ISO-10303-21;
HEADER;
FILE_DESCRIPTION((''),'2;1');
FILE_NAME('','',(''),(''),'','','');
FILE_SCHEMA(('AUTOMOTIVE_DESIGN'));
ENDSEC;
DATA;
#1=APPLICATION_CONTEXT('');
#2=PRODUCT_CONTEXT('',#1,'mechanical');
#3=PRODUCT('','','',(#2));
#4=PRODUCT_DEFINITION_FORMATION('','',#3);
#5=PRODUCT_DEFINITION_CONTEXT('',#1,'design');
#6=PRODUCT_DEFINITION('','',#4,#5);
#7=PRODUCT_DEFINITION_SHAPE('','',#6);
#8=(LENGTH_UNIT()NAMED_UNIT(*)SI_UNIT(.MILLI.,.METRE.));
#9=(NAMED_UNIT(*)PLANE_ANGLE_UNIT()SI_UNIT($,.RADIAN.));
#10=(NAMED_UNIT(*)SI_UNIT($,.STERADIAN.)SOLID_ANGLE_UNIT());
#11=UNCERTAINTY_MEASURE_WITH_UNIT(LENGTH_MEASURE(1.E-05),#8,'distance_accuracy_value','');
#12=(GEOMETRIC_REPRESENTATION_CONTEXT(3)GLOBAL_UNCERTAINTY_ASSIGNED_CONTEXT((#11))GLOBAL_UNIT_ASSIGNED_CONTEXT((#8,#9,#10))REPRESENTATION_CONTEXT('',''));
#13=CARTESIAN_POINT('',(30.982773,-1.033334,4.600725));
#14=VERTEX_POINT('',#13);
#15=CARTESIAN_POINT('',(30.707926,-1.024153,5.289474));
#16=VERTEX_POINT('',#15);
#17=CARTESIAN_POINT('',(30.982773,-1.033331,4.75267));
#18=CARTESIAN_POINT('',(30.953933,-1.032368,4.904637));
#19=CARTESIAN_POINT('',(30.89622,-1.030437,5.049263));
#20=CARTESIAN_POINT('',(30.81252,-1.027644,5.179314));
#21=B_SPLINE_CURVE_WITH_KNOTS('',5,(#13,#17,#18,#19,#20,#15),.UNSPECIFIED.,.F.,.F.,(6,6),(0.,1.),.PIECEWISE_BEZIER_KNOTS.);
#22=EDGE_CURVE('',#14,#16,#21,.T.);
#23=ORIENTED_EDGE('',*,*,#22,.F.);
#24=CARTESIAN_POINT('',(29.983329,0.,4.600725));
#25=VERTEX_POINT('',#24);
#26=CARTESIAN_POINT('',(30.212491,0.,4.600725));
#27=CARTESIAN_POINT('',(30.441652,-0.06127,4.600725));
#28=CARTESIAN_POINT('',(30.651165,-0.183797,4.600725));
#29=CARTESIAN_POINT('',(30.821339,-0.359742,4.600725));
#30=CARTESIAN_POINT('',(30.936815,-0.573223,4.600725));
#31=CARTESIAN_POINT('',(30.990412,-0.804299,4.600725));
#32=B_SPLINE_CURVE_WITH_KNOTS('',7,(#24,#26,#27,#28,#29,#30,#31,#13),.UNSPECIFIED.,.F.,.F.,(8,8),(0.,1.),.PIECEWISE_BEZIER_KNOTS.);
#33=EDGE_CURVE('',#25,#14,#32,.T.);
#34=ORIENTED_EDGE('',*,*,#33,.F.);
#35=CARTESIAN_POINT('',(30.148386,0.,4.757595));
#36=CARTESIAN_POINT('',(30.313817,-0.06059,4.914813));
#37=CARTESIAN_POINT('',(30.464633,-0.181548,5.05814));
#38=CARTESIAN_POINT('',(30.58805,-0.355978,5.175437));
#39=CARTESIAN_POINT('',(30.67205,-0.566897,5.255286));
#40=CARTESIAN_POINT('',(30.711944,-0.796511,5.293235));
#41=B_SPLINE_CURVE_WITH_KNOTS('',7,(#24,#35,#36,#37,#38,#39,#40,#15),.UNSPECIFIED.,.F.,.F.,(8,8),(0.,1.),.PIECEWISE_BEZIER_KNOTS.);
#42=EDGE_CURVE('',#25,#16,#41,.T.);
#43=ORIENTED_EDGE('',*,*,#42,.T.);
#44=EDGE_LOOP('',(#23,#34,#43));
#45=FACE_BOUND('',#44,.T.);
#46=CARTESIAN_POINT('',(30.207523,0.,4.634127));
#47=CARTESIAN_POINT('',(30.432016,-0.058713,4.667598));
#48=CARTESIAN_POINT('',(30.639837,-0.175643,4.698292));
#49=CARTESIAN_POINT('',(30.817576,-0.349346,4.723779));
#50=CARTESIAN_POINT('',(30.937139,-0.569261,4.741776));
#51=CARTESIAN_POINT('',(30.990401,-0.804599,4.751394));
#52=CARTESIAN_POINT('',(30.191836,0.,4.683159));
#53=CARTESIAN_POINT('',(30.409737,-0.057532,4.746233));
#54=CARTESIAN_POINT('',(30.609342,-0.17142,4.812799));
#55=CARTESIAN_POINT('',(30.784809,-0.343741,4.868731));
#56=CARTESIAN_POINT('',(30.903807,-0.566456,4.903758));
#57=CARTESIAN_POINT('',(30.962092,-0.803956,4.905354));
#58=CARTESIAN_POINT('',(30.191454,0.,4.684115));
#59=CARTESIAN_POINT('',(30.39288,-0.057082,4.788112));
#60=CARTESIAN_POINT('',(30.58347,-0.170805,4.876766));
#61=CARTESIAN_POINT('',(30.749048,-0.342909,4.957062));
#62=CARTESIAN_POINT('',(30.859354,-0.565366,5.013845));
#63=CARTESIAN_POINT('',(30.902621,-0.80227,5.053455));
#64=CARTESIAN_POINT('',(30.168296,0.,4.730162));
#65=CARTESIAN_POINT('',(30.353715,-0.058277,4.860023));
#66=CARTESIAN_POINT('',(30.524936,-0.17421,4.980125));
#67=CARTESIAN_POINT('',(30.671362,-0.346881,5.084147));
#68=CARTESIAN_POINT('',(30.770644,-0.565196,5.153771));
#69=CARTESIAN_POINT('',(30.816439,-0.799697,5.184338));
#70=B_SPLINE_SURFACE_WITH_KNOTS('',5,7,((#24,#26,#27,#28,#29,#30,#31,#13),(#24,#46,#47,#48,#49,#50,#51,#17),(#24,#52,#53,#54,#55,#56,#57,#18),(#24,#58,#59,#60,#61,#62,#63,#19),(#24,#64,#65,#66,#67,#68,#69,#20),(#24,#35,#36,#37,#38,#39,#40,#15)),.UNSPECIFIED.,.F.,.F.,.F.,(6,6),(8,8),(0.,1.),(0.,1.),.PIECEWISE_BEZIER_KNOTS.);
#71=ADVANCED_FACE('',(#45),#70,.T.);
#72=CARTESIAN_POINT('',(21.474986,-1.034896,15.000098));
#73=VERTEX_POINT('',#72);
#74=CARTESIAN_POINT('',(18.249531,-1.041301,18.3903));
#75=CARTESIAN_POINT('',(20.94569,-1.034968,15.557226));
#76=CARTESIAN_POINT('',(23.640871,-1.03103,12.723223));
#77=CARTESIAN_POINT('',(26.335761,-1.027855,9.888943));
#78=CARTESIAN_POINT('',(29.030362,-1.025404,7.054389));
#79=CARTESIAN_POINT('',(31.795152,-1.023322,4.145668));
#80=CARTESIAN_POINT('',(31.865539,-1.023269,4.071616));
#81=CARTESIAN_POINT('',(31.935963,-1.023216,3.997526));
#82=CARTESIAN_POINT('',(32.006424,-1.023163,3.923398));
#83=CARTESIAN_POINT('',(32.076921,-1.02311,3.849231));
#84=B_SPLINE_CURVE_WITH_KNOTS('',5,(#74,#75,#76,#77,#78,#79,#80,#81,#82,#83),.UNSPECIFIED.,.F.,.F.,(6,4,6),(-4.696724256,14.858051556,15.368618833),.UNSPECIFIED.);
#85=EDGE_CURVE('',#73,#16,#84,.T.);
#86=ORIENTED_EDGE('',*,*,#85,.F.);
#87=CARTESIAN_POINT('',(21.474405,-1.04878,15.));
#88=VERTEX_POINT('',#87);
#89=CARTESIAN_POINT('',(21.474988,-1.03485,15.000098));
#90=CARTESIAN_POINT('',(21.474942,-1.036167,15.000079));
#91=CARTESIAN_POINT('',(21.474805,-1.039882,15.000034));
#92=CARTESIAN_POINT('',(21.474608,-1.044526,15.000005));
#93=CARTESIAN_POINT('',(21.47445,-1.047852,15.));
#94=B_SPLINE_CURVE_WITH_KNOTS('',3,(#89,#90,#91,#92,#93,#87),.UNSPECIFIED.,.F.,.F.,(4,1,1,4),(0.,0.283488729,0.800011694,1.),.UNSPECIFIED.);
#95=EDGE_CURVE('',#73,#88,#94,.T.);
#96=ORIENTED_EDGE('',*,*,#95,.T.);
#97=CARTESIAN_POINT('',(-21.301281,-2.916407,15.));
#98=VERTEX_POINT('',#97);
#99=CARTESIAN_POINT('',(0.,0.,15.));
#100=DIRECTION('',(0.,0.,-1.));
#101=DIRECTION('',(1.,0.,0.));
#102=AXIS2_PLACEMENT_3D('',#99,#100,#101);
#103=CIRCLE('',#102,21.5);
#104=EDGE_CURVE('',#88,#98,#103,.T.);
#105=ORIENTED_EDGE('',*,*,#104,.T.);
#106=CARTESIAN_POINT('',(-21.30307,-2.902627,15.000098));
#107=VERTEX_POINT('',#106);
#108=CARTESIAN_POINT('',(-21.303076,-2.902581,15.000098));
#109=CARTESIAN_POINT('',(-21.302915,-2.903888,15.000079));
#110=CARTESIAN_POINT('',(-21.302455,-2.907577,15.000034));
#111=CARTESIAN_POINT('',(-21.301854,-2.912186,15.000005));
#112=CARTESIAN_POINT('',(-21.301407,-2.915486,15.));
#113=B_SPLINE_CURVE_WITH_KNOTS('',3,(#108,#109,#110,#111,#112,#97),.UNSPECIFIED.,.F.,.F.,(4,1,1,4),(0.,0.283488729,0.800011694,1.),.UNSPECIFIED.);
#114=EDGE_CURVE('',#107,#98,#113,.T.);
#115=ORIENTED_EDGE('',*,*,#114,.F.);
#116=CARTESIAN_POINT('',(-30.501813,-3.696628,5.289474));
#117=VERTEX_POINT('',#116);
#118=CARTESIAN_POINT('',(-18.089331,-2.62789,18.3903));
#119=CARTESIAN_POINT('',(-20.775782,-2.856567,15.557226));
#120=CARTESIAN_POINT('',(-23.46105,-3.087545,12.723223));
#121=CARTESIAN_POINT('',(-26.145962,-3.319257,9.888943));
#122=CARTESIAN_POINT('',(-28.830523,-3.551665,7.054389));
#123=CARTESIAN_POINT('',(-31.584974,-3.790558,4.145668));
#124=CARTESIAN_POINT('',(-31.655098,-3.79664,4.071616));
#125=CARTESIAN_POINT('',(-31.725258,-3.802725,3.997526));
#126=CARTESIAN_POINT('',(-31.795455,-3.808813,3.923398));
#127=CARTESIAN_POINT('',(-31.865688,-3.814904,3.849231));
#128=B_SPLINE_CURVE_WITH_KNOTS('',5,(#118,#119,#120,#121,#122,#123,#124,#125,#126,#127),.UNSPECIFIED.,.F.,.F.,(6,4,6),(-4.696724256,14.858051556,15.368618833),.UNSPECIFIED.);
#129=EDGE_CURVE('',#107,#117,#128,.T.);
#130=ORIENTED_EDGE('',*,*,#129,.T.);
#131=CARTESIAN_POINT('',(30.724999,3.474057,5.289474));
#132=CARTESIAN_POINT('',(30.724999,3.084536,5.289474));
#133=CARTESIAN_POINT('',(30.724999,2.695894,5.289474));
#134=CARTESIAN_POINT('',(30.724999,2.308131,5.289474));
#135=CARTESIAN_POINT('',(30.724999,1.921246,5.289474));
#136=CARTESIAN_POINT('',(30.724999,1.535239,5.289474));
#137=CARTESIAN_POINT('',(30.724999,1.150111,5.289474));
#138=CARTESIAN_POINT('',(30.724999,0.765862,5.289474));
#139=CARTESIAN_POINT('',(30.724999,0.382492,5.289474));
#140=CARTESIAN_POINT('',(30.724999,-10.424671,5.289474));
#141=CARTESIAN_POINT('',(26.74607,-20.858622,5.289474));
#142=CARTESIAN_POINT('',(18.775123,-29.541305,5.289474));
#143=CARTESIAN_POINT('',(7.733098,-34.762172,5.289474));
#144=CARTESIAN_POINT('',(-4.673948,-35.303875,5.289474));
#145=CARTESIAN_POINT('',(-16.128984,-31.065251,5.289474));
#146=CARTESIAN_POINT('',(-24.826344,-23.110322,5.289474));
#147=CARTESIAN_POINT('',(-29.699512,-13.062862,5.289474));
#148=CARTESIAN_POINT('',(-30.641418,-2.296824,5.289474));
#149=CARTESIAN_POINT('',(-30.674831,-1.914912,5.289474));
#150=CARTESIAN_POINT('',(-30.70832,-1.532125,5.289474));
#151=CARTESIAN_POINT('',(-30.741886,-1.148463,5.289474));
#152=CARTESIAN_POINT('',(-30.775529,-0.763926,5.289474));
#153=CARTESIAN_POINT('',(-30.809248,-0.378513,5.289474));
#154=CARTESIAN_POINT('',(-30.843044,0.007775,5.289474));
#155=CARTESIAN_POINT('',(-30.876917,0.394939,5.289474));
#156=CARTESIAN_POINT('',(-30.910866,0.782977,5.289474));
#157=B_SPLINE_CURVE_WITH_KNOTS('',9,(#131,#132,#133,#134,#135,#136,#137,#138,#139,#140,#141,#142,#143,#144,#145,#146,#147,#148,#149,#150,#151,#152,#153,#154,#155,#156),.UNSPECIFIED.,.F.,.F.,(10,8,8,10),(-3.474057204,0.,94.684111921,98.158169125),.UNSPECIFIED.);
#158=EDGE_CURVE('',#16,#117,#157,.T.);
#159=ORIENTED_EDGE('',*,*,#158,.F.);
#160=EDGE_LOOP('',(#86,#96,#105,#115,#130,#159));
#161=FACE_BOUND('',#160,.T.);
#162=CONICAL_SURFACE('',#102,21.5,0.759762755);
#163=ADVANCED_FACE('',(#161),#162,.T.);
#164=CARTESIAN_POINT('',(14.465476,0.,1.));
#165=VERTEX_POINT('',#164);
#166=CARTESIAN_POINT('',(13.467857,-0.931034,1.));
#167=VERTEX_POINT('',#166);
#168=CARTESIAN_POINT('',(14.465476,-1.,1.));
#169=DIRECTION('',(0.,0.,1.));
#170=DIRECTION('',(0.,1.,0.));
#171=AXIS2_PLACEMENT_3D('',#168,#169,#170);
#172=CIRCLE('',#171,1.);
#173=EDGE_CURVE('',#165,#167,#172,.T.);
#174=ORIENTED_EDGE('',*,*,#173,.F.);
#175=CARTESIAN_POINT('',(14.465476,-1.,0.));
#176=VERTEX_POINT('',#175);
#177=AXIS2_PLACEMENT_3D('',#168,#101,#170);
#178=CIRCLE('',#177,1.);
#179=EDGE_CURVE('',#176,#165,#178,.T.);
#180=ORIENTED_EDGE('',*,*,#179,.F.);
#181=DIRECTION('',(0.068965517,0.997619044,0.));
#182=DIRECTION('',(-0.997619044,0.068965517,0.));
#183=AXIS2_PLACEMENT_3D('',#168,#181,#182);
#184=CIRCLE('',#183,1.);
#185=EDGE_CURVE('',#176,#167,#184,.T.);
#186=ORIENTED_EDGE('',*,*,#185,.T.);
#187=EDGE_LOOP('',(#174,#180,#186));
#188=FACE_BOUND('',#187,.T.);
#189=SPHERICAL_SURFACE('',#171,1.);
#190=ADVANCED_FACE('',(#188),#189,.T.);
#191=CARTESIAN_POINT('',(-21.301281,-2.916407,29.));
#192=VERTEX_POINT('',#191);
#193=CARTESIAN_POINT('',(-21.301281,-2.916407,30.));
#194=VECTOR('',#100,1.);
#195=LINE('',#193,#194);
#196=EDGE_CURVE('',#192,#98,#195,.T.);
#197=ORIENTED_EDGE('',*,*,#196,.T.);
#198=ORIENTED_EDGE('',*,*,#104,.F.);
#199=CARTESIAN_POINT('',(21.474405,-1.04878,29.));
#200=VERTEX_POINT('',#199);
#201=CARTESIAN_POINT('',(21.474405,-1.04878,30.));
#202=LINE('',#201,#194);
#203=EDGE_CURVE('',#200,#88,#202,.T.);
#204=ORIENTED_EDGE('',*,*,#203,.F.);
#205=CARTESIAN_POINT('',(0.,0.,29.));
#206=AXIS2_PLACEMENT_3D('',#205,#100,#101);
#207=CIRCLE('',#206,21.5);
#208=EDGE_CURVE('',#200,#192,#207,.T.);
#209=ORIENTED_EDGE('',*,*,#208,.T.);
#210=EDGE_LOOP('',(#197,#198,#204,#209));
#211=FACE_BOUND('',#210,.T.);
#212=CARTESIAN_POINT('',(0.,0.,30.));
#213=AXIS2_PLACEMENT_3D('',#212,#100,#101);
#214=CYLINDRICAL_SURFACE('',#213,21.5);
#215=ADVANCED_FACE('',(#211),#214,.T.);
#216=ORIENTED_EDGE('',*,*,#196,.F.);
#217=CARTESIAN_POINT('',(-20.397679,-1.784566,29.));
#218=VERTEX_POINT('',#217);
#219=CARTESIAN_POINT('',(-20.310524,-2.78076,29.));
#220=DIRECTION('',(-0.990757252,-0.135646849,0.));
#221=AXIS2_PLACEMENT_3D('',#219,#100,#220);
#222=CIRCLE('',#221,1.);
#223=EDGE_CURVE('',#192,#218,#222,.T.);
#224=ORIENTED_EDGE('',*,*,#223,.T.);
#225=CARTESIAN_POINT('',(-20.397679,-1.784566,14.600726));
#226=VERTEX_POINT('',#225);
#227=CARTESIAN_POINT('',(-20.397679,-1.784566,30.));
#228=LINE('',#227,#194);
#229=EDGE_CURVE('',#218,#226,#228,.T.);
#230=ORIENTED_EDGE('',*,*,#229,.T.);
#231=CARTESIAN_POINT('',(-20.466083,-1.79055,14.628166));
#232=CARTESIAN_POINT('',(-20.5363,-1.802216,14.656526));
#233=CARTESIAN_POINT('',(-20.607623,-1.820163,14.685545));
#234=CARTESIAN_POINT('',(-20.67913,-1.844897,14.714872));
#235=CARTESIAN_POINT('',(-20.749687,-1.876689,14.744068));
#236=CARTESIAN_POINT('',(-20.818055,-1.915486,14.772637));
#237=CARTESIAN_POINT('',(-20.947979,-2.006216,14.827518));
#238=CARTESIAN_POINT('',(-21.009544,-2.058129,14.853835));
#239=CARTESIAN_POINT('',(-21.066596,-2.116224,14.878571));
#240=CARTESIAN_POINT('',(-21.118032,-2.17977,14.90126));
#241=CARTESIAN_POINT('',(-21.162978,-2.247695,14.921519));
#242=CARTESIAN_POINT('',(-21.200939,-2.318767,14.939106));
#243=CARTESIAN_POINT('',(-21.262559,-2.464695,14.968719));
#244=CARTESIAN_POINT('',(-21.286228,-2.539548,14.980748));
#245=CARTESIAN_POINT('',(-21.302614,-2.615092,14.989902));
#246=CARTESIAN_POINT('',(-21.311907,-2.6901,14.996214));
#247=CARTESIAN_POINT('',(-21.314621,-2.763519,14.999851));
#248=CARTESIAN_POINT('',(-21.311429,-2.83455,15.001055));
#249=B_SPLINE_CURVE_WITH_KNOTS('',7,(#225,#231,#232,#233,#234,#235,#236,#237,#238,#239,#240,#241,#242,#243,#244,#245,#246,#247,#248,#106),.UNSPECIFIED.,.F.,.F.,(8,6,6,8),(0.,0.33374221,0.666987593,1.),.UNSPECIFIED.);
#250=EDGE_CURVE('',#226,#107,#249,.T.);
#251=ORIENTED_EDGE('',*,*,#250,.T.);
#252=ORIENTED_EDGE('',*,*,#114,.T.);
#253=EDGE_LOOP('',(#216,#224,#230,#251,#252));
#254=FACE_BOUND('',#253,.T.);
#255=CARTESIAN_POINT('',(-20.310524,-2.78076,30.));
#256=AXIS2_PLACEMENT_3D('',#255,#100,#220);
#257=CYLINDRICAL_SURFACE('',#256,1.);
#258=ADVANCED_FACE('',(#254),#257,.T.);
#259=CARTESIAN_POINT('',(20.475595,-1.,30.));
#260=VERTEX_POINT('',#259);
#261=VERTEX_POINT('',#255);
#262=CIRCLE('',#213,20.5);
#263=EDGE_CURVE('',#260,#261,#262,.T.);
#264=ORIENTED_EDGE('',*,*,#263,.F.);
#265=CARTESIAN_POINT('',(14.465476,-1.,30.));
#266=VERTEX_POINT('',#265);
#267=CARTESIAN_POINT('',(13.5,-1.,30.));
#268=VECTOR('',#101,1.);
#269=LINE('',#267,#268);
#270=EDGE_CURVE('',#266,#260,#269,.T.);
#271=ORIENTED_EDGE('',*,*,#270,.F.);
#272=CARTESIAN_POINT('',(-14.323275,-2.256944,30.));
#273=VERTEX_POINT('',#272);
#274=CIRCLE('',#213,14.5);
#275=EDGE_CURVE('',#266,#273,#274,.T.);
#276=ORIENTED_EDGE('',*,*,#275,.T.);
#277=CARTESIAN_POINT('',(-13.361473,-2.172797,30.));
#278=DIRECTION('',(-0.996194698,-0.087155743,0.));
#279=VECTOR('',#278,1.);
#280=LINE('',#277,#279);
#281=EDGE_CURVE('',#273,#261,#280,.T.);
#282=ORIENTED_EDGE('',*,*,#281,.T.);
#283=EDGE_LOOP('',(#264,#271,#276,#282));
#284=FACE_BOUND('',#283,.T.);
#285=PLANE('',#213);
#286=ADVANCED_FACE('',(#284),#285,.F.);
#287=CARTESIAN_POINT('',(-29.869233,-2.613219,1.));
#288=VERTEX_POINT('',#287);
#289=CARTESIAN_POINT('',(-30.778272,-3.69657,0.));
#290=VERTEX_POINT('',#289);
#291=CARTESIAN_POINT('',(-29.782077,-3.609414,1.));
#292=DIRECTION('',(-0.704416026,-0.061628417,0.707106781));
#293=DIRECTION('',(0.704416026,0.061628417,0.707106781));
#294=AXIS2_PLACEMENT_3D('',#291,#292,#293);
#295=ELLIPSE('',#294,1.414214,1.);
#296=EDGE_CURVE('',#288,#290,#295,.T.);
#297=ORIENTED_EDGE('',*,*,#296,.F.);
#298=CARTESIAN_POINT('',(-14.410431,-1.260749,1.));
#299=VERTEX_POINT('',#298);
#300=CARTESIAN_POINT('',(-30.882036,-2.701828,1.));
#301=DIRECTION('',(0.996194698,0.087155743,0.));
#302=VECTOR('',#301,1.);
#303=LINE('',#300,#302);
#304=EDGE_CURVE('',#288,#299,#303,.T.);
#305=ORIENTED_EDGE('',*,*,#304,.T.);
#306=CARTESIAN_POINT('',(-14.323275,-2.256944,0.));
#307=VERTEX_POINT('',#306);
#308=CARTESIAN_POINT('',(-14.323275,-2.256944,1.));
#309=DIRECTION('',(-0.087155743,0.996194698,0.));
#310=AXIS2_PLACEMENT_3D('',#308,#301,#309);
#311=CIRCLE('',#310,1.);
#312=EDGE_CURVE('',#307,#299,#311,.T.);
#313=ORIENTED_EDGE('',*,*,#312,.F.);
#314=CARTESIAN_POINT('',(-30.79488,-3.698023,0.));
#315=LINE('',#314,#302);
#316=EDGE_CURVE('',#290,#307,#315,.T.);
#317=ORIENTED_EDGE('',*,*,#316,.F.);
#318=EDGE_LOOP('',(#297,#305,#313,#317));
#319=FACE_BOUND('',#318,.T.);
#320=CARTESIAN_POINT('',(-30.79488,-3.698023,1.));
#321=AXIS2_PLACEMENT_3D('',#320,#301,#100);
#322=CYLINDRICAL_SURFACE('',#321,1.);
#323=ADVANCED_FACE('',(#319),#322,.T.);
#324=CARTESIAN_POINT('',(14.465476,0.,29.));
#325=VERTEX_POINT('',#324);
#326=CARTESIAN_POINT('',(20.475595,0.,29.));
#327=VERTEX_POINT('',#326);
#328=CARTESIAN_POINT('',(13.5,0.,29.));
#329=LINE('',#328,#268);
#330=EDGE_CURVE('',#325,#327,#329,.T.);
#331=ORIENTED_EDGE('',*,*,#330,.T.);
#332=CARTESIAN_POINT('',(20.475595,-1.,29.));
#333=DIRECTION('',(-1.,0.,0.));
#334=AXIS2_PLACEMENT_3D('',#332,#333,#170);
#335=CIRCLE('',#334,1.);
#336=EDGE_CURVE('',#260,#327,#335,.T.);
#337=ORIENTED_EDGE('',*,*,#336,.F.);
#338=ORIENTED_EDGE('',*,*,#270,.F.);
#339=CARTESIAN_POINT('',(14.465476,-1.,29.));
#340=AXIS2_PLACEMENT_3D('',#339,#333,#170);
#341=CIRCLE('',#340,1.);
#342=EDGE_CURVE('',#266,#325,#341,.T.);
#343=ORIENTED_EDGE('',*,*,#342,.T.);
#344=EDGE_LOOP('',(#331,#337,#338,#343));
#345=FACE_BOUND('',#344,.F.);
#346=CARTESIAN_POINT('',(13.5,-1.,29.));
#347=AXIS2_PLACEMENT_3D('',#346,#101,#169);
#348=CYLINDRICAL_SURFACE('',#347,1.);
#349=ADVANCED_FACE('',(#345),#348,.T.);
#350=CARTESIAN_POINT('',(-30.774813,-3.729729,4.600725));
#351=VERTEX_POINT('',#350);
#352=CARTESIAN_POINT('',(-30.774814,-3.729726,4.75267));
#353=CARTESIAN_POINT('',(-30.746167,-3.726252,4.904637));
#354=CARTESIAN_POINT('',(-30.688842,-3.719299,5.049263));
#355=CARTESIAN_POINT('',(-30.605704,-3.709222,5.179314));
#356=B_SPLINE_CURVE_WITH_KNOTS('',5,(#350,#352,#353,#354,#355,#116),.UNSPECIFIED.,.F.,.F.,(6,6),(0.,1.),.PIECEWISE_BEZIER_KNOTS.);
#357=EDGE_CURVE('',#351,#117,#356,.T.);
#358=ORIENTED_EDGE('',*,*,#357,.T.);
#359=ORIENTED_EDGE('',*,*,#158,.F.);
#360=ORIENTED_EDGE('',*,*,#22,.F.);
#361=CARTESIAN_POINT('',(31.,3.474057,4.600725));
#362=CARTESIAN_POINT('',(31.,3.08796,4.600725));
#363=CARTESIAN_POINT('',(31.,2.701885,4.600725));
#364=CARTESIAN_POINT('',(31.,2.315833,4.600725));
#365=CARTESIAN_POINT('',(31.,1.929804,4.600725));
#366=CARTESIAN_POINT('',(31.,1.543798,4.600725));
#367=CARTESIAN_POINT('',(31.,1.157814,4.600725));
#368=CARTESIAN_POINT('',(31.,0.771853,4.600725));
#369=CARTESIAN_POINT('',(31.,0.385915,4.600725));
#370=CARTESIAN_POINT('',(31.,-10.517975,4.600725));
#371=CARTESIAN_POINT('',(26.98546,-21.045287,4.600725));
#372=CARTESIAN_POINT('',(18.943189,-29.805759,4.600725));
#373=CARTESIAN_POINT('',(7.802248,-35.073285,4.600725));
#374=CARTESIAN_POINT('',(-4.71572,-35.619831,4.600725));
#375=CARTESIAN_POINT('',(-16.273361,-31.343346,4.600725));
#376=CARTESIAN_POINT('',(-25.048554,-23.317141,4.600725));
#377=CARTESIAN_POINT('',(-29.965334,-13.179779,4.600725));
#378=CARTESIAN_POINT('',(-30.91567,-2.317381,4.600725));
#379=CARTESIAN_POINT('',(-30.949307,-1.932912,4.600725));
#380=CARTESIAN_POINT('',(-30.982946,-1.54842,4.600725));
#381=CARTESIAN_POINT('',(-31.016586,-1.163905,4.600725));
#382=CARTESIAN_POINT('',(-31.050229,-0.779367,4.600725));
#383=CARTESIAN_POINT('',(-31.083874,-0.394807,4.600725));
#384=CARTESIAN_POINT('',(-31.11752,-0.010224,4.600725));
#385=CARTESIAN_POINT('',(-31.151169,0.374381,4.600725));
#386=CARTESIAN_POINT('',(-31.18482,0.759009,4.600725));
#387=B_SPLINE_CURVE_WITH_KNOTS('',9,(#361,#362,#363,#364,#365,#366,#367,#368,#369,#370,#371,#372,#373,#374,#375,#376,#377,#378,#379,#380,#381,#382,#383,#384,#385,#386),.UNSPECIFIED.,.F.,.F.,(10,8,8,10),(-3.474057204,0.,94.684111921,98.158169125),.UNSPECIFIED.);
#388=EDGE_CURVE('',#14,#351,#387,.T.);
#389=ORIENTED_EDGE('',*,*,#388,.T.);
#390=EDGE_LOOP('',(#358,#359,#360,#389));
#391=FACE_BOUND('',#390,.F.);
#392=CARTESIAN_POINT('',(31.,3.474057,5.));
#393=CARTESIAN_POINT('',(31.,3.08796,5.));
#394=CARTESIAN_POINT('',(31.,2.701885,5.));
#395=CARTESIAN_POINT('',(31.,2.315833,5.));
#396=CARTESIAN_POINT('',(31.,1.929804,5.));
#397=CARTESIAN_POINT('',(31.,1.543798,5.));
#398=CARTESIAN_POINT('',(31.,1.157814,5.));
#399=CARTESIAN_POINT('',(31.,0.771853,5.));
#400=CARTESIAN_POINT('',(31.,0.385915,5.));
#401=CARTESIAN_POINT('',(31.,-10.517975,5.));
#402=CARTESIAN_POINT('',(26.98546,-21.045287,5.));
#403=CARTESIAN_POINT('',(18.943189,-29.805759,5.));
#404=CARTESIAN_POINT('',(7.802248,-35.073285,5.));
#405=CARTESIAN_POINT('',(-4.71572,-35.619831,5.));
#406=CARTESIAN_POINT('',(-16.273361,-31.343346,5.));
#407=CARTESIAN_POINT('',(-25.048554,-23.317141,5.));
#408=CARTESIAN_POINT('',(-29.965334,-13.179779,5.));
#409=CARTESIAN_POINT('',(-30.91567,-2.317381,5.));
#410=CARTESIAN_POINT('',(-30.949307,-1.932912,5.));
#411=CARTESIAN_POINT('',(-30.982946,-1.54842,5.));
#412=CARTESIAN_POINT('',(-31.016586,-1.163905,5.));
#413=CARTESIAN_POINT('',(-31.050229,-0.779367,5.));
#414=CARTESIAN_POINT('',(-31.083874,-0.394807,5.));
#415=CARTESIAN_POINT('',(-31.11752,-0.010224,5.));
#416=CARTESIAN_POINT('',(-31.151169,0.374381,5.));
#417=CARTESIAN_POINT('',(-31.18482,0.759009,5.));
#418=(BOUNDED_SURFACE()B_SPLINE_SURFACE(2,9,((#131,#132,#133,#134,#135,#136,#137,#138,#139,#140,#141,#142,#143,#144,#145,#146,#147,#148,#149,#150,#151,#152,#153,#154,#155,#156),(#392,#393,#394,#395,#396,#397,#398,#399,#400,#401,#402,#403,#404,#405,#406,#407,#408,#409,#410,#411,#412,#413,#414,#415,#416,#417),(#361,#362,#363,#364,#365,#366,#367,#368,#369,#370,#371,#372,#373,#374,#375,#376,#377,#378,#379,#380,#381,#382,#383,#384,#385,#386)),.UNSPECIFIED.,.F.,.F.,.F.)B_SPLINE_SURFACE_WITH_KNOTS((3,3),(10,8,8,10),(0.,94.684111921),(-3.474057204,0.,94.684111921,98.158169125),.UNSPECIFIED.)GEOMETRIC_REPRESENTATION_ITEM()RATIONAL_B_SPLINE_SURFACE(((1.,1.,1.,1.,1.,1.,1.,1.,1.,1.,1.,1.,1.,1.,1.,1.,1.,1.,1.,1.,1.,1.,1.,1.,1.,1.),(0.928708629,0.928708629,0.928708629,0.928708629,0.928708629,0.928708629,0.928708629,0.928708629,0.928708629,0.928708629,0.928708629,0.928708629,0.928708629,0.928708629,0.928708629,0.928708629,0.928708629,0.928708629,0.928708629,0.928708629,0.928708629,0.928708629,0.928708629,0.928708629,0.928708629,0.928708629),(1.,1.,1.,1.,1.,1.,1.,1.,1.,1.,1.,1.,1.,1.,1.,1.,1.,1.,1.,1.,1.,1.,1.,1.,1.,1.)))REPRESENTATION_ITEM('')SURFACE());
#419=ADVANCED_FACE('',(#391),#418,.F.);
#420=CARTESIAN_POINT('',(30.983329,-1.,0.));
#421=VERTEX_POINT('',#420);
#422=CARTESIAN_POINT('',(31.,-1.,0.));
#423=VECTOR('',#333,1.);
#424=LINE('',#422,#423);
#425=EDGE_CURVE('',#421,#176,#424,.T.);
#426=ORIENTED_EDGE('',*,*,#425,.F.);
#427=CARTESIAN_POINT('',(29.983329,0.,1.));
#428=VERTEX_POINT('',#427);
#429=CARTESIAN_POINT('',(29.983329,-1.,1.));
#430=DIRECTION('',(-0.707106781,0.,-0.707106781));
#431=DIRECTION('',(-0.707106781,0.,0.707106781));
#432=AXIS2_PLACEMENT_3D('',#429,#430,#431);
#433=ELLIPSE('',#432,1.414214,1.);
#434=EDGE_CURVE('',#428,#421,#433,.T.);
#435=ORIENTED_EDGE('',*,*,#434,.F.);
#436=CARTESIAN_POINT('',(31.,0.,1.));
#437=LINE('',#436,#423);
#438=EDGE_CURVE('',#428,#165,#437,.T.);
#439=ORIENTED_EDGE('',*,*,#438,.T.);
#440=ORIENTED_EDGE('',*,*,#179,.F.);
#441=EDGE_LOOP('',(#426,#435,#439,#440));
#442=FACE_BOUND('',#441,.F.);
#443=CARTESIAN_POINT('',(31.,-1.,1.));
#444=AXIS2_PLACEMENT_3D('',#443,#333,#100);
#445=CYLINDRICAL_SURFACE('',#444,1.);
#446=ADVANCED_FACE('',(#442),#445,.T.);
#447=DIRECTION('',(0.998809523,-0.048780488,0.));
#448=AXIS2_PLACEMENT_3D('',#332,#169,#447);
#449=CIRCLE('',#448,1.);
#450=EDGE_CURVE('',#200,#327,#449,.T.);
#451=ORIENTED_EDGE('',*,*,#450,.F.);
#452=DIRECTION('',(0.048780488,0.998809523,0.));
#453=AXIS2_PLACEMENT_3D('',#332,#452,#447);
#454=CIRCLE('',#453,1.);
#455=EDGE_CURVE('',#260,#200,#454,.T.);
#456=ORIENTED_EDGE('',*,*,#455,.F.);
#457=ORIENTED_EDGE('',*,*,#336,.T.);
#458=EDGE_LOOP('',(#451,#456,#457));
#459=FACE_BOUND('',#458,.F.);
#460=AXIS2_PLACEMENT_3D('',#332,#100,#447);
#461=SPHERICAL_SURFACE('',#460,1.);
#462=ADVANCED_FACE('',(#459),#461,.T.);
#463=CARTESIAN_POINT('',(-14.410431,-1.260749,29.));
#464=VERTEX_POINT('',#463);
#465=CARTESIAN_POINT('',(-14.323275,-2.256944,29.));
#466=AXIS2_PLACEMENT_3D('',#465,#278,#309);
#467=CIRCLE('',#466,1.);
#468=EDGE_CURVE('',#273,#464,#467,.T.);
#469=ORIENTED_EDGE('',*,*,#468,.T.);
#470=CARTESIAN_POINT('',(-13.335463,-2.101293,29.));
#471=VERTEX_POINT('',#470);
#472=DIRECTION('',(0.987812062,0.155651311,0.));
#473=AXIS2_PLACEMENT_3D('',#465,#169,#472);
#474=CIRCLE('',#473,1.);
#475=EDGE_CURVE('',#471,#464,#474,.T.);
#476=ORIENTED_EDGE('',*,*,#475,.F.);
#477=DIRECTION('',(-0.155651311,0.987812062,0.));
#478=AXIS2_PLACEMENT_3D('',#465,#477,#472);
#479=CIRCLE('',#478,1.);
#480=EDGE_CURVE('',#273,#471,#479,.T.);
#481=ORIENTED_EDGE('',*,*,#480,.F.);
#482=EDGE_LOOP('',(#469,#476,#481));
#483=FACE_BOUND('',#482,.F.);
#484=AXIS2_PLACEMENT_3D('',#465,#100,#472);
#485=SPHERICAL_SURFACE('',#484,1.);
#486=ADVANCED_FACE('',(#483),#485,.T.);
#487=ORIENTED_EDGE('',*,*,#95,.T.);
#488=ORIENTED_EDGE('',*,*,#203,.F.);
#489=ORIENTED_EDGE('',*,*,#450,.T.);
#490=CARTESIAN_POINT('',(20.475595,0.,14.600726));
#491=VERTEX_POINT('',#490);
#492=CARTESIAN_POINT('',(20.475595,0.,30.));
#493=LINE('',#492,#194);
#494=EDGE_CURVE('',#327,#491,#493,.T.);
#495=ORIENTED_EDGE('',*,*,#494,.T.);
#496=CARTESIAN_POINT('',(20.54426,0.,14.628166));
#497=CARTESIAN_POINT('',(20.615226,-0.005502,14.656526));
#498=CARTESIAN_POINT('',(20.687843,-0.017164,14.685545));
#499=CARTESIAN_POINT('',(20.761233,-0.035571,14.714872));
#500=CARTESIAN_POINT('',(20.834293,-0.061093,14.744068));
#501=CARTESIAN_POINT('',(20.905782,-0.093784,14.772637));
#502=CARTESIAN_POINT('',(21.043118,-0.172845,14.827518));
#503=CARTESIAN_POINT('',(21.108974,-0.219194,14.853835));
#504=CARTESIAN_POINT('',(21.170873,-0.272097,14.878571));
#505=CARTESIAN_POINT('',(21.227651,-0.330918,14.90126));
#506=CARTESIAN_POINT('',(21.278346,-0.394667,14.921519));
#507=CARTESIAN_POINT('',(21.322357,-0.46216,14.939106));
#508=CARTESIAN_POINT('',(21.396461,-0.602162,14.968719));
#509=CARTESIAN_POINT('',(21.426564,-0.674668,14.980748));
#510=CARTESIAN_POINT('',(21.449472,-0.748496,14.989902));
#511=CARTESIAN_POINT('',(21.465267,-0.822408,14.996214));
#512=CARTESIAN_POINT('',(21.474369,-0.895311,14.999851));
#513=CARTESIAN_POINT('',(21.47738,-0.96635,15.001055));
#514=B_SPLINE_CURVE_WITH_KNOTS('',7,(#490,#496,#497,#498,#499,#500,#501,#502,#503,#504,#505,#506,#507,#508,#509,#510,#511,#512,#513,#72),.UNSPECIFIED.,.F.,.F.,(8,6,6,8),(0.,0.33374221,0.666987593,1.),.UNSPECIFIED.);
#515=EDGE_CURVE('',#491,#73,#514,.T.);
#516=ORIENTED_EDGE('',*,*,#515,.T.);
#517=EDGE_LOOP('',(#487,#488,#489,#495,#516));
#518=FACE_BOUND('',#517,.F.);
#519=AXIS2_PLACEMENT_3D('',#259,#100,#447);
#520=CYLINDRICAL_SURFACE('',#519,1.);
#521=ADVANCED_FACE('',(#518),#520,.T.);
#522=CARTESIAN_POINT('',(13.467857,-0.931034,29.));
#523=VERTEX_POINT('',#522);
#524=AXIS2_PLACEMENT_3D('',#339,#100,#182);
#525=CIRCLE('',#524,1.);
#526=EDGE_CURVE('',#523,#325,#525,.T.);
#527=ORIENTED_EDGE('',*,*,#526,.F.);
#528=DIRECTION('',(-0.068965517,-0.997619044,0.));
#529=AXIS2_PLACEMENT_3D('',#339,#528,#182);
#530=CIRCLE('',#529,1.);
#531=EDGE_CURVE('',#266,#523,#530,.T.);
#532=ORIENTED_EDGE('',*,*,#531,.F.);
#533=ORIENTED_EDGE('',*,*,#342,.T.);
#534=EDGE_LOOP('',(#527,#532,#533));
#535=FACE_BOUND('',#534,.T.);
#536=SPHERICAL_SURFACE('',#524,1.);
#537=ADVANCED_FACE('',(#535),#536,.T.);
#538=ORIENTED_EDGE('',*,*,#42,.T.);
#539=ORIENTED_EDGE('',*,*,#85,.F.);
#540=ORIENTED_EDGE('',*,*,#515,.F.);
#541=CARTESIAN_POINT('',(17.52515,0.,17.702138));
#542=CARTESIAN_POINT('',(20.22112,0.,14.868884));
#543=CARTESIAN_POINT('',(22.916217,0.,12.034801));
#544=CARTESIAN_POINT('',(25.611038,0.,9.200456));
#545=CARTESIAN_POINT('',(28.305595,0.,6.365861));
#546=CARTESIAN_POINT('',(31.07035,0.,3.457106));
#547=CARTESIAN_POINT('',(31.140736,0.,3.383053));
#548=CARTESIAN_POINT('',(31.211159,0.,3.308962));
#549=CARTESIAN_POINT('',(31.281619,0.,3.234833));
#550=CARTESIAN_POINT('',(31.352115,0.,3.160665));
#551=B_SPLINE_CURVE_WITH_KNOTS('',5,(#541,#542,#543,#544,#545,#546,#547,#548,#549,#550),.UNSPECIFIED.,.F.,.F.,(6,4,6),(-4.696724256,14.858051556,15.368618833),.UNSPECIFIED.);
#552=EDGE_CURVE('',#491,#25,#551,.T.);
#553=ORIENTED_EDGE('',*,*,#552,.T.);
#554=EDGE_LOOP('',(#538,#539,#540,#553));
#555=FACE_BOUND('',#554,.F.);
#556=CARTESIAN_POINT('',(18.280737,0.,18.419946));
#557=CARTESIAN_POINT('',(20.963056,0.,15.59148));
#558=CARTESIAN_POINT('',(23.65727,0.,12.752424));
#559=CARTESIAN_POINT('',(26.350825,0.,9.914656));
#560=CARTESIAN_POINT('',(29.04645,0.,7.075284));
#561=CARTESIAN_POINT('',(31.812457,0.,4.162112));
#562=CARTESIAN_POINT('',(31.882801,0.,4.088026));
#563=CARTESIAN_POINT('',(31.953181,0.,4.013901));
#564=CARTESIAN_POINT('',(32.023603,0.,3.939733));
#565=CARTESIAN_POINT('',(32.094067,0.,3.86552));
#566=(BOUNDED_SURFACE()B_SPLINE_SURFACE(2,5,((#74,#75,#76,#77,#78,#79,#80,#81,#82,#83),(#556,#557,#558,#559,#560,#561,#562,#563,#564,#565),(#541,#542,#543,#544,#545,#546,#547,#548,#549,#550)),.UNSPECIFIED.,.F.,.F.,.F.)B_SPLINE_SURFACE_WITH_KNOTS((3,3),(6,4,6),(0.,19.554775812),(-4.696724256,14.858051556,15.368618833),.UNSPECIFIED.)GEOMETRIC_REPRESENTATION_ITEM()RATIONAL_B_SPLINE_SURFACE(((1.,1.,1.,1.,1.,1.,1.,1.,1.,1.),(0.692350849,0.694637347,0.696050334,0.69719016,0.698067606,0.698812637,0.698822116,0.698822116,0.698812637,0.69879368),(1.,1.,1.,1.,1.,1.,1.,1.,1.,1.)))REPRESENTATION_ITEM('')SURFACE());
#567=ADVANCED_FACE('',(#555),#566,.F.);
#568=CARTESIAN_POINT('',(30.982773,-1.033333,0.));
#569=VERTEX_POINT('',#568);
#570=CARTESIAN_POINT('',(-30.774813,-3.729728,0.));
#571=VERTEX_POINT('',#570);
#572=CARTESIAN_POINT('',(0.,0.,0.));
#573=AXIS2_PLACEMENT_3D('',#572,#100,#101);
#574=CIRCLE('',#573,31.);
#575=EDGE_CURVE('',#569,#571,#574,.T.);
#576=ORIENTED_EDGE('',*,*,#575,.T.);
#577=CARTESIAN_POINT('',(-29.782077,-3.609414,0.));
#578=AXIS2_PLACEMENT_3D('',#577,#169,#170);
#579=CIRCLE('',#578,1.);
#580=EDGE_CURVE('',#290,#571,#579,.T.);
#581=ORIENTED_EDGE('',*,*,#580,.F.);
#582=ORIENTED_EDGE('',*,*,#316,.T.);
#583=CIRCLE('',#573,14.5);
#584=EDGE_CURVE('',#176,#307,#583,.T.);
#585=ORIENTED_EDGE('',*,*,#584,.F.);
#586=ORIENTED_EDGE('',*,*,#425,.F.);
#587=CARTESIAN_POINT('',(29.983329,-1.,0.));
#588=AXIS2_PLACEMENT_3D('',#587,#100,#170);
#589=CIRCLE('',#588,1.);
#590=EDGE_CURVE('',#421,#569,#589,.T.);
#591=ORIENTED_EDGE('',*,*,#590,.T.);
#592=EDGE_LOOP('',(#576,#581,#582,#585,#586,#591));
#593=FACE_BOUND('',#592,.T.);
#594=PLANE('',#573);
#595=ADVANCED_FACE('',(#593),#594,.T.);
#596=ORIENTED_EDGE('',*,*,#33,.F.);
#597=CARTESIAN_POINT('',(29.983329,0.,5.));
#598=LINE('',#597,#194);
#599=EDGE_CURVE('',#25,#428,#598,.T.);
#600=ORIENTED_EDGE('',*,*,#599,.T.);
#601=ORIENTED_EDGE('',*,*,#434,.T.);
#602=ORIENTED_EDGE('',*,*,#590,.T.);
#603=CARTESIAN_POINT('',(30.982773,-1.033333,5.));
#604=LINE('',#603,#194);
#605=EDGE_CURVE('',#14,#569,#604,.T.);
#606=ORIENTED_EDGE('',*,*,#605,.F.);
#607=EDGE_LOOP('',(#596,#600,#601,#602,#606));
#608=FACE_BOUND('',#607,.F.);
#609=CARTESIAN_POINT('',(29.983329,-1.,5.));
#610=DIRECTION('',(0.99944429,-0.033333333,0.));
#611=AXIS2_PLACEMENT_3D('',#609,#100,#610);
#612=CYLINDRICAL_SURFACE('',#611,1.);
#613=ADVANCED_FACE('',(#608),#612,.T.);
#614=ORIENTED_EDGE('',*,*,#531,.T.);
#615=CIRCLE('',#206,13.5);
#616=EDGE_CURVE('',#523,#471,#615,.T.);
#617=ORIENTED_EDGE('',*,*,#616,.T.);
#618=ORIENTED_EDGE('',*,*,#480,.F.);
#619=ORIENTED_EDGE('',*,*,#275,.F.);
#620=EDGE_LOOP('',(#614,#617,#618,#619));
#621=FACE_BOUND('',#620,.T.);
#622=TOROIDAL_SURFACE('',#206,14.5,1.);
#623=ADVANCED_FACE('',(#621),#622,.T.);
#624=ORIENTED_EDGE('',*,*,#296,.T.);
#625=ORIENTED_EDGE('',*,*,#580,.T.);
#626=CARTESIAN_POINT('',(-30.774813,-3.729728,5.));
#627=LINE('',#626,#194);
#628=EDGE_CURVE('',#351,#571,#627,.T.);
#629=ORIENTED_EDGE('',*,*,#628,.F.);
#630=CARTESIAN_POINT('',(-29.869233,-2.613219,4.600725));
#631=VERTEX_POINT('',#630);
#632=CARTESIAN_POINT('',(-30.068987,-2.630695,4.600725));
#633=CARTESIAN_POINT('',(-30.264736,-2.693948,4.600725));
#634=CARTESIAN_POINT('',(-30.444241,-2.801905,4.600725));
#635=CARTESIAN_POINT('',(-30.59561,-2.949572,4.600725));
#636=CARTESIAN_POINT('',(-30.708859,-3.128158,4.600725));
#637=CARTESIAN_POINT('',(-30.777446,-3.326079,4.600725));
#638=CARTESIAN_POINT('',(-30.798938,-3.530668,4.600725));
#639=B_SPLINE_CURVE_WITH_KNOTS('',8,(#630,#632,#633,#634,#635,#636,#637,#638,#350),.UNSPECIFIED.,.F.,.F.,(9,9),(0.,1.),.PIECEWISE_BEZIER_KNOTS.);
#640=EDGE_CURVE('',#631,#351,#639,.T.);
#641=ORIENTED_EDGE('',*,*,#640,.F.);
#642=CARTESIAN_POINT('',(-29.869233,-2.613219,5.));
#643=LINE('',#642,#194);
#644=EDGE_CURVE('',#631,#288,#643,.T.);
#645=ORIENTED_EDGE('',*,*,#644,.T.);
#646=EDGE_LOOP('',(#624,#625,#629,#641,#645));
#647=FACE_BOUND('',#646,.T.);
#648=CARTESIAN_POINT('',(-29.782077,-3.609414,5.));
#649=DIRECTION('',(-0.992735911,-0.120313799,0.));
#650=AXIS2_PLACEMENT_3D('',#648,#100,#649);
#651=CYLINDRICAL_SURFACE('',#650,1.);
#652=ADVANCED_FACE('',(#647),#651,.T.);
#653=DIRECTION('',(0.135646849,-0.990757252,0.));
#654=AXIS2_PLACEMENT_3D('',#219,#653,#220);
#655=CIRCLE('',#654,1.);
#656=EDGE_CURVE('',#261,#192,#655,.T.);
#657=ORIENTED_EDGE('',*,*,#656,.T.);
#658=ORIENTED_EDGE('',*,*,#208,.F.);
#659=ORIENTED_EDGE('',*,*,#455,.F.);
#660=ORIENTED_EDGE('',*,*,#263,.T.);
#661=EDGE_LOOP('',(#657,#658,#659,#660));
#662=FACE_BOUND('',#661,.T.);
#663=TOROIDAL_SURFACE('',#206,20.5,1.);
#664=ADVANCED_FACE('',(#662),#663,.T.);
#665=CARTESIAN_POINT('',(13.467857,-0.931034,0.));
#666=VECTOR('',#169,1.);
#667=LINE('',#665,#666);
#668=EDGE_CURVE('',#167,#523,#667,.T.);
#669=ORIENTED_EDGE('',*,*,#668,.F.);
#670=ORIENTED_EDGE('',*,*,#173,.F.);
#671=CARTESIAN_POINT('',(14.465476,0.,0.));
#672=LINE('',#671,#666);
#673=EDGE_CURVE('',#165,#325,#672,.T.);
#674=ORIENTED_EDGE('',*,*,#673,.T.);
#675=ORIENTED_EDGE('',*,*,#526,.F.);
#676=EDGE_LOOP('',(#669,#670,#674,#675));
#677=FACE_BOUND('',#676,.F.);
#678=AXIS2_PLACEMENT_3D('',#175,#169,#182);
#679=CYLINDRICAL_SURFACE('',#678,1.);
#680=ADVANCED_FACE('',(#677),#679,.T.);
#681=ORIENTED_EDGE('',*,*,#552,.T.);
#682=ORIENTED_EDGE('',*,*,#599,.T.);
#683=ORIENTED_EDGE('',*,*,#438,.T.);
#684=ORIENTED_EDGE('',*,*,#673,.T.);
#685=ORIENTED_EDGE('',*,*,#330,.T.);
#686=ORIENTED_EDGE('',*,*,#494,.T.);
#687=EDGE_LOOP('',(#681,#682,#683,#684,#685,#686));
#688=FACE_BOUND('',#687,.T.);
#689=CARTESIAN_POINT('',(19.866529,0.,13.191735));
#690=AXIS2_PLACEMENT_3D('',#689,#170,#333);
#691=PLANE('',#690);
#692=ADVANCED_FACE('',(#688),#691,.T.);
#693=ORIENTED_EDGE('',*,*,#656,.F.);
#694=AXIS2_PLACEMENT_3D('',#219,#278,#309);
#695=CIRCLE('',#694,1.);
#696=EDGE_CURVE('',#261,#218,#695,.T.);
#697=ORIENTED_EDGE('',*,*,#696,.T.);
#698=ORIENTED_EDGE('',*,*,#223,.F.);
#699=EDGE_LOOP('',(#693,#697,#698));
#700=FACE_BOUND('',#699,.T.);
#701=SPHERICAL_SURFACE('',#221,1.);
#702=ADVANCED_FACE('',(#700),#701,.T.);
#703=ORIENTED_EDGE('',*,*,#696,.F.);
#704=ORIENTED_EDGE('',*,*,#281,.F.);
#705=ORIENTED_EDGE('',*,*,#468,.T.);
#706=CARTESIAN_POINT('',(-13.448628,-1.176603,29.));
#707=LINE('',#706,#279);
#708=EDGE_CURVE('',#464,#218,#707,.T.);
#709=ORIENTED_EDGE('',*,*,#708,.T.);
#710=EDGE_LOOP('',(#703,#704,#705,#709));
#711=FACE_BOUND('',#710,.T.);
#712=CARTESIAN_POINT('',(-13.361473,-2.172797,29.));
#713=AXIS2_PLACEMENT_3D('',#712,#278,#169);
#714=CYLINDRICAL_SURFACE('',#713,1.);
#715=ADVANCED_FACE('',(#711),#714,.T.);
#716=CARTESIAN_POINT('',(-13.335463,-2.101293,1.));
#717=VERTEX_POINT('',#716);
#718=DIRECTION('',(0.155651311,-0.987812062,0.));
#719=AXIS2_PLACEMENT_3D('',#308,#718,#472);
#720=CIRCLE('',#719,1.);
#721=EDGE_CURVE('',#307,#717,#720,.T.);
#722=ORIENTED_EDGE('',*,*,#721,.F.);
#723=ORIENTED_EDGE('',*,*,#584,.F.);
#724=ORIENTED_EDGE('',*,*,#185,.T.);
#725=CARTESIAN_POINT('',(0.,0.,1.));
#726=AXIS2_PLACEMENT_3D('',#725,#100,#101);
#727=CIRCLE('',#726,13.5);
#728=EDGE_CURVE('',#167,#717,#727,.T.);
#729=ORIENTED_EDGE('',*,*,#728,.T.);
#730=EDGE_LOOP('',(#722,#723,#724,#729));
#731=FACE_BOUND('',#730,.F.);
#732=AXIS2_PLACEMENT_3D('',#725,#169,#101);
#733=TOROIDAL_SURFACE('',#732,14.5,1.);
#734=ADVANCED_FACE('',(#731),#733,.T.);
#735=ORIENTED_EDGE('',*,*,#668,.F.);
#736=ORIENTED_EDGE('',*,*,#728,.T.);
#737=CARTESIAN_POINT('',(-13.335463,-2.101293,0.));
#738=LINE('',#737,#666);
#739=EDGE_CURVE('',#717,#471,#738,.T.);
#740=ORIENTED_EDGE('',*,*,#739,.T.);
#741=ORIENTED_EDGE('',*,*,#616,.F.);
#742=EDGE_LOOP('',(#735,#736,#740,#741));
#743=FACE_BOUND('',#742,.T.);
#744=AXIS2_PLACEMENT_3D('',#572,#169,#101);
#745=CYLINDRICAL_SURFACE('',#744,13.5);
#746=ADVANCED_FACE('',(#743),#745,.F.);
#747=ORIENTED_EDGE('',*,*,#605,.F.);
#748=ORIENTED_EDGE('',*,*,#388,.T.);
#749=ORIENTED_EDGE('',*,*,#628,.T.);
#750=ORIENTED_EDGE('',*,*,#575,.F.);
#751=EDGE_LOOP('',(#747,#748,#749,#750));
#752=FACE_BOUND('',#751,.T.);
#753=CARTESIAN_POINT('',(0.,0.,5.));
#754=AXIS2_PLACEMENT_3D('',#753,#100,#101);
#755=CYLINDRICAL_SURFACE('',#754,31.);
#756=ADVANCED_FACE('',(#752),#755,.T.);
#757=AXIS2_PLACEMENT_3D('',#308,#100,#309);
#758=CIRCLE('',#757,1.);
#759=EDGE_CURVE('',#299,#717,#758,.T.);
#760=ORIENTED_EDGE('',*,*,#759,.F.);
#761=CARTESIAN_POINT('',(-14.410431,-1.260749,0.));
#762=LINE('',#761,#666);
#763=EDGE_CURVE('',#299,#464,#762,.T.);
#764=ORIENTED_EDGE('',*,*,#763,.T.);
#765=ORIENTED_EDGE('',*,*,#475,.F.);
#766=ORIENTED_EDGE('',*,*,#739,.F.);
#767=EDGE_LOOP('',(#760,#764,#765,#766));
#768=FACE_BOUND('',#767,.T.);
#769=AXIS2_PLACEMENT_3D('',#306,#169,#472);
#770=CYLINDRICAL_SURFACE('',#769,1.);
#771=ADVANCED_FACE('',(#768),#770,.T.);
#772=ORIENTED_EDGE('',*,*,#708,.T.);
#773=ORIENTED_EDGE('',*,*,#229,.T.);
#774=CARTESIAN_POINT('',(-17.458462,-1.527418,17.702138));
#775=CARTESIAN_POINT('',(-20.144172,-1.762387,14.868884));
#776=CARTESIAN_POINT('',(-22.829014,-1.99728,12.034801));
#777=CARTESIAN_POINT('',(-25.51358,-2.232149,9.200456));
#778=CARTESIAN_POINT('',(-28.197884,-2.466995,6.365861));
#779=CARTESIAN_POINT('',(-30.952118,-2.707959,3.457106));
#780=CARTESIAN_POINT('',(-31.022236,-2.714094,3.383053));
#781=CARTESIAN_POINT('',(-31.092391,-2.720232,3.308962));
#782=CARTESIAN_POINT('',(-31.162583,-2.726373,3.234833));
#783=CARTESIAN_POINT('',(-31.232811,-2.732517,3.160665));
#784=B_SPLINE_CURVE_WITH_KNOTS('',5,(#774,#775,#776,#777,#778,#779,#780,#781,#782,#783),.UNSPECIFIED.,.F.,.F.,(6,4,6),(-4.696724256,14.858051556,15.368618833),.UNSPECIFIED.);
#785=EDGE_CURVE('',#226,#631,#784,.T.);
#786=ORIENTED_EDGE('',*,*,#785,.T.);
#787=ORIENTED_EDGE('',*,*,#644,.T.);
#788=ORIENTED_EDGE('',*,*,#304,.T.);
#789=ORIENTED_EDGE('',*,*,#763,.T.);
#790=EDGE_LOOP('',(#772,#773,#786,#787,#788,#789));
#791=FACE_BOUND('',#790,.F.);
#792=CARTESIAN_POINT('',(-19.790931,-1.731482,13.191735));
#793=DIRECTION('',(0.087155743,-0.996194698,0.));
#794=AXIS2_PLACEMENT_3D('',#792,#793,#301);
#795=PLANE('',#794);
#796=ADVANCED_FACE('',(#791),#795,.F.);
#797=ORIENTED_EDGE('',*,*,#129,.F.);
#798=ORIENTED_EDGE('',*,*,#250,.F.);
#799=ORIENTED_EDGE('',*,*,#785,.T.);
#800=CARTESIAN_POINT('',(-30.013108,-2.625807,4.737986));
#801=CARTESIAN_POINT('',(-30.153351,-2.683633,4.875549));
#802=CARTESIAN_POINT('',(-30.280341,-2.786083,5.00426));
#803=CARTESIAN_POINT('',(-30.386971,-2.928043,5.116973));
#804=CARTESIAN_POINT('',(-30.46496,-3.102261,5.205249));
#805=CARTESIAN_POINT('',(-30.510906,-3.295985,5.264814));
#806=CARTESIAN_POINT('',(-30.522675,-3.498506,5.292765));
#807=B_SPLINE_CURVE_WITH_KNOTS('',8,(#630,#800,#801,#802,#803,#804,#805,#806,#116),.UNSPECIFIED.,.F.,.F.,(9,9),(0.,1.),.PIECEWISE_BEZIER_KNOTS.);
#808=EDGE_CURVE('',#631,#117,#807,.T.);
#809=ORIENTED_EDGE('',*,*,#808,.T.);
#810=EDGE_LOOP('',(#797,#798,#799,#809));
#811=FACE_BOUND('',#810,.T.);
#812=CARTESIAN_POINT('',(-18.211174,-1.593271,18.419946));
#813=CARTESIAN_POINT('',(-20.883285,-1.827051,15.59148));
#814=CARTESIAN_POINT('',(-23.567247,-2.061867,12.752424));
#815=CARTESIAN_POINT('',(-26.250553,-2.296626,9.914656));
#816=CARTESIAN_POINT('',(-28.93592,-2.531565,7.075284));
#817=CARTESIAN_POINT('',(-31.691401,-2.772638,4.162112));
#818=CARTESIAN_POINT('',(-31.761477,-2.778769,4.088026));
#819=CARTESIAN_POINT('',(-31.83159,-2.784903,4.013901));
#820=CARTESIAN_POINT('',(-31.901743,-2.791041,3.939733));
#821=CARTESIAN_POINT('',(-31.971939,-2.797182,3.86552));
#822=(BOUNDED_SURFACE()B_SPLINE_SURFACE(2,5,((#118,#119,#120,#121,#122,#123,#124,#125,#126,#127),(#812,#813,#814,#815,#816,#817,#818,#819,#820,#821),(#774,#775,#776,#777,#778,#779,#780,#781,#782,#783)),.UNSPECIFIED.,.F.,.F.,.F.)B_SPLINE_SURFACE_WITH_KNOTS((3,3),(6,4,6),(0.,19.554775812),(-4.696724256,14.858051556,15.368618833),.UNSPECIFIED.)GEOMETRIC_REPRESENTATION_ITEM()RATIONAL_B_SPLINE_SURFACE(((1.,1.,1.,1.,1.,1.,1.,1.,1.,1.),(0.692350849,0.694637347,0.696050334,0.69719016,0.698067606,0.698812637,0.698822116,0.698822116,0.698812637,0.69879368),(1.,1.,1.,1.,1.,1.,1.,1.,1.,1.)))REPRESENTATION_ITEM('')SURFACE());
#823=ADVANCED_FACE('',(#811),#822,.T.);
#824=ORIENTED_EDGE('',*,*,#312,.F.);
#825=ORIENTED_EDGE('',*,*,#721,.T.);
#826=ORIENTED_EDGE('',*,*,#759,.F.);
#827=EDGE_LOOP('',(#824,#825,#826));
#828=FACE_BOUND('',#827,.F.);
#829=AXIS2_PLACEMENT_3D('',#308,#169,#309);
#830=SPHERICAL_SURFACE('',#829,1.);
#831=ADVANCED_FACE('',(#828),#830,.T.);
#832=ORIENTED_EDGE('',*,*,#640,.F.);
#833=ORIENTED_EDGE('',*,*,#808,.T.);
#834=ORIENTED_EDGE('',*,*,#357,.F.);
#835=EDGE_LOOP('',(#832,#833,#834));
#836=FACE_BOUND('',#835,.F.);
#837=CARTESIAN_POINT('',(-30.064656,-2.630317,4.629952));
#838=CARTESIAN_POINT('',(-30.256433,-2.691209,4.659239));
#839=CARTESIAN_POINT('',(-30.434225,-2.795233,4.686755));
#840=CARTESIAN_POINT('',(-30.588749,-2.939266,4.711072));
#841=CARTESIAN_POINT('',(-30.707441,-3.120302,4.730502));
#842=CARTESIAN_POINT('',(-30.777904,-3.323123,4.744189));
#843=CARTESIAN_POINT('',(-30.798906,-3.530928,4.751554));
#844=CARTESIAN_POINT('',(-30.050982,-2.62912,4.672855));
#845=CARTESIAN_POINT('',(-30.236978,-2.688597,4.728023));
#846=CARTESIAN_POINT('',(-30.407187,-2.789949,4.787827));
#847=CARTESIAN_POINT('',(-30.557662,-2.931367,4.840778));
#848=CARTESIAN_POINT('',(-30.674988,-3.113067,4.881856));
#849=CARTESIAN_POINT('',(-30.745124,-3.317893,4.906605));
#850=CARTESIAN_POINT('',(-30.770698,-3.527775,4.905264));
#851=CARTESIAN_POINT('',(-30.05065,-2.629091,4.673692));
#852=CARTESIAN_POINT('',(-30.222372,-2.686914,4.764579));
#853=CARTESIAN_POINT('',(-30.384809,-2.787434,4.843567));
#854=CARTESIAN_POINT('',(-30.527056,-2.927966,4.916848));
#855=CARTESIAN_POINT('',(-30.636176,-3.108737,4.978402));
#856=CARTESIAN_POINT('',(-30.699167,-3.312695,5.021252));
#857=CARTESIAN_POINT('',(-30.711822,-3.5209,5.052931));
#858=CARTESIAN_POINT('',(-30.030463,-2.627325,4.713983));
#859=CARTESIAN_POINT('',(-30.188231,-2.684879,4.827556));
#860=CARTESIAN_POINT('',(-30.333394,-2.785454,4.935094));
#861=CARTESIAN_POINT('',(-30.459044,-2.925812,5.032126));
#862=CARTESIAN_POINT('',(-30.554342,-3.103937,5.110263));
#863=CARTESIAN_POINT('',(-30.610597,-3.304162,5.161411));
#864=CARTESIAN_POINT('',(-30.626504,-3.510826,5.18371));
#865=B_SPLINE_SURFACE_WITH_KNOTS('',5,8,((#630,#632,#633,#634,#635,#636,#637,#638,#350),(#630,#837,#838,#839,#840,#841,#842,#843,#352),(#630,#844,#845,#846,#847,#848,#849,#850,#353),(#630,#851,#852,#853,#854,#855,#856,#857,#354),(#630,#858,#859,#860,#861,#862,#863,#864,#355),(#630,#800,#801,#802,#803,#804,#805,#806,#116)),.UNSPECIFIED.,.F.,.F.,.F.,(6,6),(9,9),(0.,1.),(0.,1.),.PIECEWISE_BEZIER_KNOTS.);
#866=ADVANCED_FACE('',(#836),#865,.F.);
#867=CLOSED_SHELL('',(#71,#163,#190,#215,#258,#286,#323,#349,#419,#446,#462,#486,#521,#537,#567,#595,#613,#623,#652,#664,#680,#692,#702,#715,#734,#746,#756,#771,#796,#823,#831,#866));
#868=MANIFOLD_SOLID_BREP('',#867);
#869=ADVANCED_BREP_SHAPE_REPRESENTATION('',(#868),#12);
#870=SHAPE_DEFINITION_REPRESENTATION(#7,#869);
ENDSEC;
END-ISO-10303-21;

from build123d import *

# Parameters (mm, degrees)
REVOLUTION_ANGLE = -175
FILLET_R         = 1


with BuildPart() as part:
    # Sketch → Revolution (revolve)
    with BuildSketch(Plane.XZ):
        Polygon((13.5, 0), (13.5, 30), (21.5, 30), (21.5, 15), (31, 5), (31, 0), align=None)
    revolve(axis=Axis((0, 0, 0), (0, 0, 1)), revolution_arc=REVOLUTION_ANGLE)

    # Fillet
    fillet_edges = [part.edges().sort_by_distance(p)[0] for p in [
        (0.588862, -13.487151, 0),
        (-13.448628, -1.176603, 15),
        (13.5, 0, 15),
        (0.588862, -13.487151, 30),
        (0.937817, -21.479537, 30),
        (1.352201, -30.970495, 5),
        (22.25, 0, 0),
        (-22.165332, -1.939215, 0),
        (17.5, 0, 30),
        (-17.433407, -1.525225, 30),
        (31, 0, 2.5),
        (26.25, 0, 10),
        (21.5, 0, 22.5),
        (-30.882036, -2.701828, 2.5),
        (-26.150111, -2.287838, 10),
        (-21.418186, -1.873848, 22.5),
    ]]
    fillet(fillet_edges, radius=FILLET_R)


solid = part.part
